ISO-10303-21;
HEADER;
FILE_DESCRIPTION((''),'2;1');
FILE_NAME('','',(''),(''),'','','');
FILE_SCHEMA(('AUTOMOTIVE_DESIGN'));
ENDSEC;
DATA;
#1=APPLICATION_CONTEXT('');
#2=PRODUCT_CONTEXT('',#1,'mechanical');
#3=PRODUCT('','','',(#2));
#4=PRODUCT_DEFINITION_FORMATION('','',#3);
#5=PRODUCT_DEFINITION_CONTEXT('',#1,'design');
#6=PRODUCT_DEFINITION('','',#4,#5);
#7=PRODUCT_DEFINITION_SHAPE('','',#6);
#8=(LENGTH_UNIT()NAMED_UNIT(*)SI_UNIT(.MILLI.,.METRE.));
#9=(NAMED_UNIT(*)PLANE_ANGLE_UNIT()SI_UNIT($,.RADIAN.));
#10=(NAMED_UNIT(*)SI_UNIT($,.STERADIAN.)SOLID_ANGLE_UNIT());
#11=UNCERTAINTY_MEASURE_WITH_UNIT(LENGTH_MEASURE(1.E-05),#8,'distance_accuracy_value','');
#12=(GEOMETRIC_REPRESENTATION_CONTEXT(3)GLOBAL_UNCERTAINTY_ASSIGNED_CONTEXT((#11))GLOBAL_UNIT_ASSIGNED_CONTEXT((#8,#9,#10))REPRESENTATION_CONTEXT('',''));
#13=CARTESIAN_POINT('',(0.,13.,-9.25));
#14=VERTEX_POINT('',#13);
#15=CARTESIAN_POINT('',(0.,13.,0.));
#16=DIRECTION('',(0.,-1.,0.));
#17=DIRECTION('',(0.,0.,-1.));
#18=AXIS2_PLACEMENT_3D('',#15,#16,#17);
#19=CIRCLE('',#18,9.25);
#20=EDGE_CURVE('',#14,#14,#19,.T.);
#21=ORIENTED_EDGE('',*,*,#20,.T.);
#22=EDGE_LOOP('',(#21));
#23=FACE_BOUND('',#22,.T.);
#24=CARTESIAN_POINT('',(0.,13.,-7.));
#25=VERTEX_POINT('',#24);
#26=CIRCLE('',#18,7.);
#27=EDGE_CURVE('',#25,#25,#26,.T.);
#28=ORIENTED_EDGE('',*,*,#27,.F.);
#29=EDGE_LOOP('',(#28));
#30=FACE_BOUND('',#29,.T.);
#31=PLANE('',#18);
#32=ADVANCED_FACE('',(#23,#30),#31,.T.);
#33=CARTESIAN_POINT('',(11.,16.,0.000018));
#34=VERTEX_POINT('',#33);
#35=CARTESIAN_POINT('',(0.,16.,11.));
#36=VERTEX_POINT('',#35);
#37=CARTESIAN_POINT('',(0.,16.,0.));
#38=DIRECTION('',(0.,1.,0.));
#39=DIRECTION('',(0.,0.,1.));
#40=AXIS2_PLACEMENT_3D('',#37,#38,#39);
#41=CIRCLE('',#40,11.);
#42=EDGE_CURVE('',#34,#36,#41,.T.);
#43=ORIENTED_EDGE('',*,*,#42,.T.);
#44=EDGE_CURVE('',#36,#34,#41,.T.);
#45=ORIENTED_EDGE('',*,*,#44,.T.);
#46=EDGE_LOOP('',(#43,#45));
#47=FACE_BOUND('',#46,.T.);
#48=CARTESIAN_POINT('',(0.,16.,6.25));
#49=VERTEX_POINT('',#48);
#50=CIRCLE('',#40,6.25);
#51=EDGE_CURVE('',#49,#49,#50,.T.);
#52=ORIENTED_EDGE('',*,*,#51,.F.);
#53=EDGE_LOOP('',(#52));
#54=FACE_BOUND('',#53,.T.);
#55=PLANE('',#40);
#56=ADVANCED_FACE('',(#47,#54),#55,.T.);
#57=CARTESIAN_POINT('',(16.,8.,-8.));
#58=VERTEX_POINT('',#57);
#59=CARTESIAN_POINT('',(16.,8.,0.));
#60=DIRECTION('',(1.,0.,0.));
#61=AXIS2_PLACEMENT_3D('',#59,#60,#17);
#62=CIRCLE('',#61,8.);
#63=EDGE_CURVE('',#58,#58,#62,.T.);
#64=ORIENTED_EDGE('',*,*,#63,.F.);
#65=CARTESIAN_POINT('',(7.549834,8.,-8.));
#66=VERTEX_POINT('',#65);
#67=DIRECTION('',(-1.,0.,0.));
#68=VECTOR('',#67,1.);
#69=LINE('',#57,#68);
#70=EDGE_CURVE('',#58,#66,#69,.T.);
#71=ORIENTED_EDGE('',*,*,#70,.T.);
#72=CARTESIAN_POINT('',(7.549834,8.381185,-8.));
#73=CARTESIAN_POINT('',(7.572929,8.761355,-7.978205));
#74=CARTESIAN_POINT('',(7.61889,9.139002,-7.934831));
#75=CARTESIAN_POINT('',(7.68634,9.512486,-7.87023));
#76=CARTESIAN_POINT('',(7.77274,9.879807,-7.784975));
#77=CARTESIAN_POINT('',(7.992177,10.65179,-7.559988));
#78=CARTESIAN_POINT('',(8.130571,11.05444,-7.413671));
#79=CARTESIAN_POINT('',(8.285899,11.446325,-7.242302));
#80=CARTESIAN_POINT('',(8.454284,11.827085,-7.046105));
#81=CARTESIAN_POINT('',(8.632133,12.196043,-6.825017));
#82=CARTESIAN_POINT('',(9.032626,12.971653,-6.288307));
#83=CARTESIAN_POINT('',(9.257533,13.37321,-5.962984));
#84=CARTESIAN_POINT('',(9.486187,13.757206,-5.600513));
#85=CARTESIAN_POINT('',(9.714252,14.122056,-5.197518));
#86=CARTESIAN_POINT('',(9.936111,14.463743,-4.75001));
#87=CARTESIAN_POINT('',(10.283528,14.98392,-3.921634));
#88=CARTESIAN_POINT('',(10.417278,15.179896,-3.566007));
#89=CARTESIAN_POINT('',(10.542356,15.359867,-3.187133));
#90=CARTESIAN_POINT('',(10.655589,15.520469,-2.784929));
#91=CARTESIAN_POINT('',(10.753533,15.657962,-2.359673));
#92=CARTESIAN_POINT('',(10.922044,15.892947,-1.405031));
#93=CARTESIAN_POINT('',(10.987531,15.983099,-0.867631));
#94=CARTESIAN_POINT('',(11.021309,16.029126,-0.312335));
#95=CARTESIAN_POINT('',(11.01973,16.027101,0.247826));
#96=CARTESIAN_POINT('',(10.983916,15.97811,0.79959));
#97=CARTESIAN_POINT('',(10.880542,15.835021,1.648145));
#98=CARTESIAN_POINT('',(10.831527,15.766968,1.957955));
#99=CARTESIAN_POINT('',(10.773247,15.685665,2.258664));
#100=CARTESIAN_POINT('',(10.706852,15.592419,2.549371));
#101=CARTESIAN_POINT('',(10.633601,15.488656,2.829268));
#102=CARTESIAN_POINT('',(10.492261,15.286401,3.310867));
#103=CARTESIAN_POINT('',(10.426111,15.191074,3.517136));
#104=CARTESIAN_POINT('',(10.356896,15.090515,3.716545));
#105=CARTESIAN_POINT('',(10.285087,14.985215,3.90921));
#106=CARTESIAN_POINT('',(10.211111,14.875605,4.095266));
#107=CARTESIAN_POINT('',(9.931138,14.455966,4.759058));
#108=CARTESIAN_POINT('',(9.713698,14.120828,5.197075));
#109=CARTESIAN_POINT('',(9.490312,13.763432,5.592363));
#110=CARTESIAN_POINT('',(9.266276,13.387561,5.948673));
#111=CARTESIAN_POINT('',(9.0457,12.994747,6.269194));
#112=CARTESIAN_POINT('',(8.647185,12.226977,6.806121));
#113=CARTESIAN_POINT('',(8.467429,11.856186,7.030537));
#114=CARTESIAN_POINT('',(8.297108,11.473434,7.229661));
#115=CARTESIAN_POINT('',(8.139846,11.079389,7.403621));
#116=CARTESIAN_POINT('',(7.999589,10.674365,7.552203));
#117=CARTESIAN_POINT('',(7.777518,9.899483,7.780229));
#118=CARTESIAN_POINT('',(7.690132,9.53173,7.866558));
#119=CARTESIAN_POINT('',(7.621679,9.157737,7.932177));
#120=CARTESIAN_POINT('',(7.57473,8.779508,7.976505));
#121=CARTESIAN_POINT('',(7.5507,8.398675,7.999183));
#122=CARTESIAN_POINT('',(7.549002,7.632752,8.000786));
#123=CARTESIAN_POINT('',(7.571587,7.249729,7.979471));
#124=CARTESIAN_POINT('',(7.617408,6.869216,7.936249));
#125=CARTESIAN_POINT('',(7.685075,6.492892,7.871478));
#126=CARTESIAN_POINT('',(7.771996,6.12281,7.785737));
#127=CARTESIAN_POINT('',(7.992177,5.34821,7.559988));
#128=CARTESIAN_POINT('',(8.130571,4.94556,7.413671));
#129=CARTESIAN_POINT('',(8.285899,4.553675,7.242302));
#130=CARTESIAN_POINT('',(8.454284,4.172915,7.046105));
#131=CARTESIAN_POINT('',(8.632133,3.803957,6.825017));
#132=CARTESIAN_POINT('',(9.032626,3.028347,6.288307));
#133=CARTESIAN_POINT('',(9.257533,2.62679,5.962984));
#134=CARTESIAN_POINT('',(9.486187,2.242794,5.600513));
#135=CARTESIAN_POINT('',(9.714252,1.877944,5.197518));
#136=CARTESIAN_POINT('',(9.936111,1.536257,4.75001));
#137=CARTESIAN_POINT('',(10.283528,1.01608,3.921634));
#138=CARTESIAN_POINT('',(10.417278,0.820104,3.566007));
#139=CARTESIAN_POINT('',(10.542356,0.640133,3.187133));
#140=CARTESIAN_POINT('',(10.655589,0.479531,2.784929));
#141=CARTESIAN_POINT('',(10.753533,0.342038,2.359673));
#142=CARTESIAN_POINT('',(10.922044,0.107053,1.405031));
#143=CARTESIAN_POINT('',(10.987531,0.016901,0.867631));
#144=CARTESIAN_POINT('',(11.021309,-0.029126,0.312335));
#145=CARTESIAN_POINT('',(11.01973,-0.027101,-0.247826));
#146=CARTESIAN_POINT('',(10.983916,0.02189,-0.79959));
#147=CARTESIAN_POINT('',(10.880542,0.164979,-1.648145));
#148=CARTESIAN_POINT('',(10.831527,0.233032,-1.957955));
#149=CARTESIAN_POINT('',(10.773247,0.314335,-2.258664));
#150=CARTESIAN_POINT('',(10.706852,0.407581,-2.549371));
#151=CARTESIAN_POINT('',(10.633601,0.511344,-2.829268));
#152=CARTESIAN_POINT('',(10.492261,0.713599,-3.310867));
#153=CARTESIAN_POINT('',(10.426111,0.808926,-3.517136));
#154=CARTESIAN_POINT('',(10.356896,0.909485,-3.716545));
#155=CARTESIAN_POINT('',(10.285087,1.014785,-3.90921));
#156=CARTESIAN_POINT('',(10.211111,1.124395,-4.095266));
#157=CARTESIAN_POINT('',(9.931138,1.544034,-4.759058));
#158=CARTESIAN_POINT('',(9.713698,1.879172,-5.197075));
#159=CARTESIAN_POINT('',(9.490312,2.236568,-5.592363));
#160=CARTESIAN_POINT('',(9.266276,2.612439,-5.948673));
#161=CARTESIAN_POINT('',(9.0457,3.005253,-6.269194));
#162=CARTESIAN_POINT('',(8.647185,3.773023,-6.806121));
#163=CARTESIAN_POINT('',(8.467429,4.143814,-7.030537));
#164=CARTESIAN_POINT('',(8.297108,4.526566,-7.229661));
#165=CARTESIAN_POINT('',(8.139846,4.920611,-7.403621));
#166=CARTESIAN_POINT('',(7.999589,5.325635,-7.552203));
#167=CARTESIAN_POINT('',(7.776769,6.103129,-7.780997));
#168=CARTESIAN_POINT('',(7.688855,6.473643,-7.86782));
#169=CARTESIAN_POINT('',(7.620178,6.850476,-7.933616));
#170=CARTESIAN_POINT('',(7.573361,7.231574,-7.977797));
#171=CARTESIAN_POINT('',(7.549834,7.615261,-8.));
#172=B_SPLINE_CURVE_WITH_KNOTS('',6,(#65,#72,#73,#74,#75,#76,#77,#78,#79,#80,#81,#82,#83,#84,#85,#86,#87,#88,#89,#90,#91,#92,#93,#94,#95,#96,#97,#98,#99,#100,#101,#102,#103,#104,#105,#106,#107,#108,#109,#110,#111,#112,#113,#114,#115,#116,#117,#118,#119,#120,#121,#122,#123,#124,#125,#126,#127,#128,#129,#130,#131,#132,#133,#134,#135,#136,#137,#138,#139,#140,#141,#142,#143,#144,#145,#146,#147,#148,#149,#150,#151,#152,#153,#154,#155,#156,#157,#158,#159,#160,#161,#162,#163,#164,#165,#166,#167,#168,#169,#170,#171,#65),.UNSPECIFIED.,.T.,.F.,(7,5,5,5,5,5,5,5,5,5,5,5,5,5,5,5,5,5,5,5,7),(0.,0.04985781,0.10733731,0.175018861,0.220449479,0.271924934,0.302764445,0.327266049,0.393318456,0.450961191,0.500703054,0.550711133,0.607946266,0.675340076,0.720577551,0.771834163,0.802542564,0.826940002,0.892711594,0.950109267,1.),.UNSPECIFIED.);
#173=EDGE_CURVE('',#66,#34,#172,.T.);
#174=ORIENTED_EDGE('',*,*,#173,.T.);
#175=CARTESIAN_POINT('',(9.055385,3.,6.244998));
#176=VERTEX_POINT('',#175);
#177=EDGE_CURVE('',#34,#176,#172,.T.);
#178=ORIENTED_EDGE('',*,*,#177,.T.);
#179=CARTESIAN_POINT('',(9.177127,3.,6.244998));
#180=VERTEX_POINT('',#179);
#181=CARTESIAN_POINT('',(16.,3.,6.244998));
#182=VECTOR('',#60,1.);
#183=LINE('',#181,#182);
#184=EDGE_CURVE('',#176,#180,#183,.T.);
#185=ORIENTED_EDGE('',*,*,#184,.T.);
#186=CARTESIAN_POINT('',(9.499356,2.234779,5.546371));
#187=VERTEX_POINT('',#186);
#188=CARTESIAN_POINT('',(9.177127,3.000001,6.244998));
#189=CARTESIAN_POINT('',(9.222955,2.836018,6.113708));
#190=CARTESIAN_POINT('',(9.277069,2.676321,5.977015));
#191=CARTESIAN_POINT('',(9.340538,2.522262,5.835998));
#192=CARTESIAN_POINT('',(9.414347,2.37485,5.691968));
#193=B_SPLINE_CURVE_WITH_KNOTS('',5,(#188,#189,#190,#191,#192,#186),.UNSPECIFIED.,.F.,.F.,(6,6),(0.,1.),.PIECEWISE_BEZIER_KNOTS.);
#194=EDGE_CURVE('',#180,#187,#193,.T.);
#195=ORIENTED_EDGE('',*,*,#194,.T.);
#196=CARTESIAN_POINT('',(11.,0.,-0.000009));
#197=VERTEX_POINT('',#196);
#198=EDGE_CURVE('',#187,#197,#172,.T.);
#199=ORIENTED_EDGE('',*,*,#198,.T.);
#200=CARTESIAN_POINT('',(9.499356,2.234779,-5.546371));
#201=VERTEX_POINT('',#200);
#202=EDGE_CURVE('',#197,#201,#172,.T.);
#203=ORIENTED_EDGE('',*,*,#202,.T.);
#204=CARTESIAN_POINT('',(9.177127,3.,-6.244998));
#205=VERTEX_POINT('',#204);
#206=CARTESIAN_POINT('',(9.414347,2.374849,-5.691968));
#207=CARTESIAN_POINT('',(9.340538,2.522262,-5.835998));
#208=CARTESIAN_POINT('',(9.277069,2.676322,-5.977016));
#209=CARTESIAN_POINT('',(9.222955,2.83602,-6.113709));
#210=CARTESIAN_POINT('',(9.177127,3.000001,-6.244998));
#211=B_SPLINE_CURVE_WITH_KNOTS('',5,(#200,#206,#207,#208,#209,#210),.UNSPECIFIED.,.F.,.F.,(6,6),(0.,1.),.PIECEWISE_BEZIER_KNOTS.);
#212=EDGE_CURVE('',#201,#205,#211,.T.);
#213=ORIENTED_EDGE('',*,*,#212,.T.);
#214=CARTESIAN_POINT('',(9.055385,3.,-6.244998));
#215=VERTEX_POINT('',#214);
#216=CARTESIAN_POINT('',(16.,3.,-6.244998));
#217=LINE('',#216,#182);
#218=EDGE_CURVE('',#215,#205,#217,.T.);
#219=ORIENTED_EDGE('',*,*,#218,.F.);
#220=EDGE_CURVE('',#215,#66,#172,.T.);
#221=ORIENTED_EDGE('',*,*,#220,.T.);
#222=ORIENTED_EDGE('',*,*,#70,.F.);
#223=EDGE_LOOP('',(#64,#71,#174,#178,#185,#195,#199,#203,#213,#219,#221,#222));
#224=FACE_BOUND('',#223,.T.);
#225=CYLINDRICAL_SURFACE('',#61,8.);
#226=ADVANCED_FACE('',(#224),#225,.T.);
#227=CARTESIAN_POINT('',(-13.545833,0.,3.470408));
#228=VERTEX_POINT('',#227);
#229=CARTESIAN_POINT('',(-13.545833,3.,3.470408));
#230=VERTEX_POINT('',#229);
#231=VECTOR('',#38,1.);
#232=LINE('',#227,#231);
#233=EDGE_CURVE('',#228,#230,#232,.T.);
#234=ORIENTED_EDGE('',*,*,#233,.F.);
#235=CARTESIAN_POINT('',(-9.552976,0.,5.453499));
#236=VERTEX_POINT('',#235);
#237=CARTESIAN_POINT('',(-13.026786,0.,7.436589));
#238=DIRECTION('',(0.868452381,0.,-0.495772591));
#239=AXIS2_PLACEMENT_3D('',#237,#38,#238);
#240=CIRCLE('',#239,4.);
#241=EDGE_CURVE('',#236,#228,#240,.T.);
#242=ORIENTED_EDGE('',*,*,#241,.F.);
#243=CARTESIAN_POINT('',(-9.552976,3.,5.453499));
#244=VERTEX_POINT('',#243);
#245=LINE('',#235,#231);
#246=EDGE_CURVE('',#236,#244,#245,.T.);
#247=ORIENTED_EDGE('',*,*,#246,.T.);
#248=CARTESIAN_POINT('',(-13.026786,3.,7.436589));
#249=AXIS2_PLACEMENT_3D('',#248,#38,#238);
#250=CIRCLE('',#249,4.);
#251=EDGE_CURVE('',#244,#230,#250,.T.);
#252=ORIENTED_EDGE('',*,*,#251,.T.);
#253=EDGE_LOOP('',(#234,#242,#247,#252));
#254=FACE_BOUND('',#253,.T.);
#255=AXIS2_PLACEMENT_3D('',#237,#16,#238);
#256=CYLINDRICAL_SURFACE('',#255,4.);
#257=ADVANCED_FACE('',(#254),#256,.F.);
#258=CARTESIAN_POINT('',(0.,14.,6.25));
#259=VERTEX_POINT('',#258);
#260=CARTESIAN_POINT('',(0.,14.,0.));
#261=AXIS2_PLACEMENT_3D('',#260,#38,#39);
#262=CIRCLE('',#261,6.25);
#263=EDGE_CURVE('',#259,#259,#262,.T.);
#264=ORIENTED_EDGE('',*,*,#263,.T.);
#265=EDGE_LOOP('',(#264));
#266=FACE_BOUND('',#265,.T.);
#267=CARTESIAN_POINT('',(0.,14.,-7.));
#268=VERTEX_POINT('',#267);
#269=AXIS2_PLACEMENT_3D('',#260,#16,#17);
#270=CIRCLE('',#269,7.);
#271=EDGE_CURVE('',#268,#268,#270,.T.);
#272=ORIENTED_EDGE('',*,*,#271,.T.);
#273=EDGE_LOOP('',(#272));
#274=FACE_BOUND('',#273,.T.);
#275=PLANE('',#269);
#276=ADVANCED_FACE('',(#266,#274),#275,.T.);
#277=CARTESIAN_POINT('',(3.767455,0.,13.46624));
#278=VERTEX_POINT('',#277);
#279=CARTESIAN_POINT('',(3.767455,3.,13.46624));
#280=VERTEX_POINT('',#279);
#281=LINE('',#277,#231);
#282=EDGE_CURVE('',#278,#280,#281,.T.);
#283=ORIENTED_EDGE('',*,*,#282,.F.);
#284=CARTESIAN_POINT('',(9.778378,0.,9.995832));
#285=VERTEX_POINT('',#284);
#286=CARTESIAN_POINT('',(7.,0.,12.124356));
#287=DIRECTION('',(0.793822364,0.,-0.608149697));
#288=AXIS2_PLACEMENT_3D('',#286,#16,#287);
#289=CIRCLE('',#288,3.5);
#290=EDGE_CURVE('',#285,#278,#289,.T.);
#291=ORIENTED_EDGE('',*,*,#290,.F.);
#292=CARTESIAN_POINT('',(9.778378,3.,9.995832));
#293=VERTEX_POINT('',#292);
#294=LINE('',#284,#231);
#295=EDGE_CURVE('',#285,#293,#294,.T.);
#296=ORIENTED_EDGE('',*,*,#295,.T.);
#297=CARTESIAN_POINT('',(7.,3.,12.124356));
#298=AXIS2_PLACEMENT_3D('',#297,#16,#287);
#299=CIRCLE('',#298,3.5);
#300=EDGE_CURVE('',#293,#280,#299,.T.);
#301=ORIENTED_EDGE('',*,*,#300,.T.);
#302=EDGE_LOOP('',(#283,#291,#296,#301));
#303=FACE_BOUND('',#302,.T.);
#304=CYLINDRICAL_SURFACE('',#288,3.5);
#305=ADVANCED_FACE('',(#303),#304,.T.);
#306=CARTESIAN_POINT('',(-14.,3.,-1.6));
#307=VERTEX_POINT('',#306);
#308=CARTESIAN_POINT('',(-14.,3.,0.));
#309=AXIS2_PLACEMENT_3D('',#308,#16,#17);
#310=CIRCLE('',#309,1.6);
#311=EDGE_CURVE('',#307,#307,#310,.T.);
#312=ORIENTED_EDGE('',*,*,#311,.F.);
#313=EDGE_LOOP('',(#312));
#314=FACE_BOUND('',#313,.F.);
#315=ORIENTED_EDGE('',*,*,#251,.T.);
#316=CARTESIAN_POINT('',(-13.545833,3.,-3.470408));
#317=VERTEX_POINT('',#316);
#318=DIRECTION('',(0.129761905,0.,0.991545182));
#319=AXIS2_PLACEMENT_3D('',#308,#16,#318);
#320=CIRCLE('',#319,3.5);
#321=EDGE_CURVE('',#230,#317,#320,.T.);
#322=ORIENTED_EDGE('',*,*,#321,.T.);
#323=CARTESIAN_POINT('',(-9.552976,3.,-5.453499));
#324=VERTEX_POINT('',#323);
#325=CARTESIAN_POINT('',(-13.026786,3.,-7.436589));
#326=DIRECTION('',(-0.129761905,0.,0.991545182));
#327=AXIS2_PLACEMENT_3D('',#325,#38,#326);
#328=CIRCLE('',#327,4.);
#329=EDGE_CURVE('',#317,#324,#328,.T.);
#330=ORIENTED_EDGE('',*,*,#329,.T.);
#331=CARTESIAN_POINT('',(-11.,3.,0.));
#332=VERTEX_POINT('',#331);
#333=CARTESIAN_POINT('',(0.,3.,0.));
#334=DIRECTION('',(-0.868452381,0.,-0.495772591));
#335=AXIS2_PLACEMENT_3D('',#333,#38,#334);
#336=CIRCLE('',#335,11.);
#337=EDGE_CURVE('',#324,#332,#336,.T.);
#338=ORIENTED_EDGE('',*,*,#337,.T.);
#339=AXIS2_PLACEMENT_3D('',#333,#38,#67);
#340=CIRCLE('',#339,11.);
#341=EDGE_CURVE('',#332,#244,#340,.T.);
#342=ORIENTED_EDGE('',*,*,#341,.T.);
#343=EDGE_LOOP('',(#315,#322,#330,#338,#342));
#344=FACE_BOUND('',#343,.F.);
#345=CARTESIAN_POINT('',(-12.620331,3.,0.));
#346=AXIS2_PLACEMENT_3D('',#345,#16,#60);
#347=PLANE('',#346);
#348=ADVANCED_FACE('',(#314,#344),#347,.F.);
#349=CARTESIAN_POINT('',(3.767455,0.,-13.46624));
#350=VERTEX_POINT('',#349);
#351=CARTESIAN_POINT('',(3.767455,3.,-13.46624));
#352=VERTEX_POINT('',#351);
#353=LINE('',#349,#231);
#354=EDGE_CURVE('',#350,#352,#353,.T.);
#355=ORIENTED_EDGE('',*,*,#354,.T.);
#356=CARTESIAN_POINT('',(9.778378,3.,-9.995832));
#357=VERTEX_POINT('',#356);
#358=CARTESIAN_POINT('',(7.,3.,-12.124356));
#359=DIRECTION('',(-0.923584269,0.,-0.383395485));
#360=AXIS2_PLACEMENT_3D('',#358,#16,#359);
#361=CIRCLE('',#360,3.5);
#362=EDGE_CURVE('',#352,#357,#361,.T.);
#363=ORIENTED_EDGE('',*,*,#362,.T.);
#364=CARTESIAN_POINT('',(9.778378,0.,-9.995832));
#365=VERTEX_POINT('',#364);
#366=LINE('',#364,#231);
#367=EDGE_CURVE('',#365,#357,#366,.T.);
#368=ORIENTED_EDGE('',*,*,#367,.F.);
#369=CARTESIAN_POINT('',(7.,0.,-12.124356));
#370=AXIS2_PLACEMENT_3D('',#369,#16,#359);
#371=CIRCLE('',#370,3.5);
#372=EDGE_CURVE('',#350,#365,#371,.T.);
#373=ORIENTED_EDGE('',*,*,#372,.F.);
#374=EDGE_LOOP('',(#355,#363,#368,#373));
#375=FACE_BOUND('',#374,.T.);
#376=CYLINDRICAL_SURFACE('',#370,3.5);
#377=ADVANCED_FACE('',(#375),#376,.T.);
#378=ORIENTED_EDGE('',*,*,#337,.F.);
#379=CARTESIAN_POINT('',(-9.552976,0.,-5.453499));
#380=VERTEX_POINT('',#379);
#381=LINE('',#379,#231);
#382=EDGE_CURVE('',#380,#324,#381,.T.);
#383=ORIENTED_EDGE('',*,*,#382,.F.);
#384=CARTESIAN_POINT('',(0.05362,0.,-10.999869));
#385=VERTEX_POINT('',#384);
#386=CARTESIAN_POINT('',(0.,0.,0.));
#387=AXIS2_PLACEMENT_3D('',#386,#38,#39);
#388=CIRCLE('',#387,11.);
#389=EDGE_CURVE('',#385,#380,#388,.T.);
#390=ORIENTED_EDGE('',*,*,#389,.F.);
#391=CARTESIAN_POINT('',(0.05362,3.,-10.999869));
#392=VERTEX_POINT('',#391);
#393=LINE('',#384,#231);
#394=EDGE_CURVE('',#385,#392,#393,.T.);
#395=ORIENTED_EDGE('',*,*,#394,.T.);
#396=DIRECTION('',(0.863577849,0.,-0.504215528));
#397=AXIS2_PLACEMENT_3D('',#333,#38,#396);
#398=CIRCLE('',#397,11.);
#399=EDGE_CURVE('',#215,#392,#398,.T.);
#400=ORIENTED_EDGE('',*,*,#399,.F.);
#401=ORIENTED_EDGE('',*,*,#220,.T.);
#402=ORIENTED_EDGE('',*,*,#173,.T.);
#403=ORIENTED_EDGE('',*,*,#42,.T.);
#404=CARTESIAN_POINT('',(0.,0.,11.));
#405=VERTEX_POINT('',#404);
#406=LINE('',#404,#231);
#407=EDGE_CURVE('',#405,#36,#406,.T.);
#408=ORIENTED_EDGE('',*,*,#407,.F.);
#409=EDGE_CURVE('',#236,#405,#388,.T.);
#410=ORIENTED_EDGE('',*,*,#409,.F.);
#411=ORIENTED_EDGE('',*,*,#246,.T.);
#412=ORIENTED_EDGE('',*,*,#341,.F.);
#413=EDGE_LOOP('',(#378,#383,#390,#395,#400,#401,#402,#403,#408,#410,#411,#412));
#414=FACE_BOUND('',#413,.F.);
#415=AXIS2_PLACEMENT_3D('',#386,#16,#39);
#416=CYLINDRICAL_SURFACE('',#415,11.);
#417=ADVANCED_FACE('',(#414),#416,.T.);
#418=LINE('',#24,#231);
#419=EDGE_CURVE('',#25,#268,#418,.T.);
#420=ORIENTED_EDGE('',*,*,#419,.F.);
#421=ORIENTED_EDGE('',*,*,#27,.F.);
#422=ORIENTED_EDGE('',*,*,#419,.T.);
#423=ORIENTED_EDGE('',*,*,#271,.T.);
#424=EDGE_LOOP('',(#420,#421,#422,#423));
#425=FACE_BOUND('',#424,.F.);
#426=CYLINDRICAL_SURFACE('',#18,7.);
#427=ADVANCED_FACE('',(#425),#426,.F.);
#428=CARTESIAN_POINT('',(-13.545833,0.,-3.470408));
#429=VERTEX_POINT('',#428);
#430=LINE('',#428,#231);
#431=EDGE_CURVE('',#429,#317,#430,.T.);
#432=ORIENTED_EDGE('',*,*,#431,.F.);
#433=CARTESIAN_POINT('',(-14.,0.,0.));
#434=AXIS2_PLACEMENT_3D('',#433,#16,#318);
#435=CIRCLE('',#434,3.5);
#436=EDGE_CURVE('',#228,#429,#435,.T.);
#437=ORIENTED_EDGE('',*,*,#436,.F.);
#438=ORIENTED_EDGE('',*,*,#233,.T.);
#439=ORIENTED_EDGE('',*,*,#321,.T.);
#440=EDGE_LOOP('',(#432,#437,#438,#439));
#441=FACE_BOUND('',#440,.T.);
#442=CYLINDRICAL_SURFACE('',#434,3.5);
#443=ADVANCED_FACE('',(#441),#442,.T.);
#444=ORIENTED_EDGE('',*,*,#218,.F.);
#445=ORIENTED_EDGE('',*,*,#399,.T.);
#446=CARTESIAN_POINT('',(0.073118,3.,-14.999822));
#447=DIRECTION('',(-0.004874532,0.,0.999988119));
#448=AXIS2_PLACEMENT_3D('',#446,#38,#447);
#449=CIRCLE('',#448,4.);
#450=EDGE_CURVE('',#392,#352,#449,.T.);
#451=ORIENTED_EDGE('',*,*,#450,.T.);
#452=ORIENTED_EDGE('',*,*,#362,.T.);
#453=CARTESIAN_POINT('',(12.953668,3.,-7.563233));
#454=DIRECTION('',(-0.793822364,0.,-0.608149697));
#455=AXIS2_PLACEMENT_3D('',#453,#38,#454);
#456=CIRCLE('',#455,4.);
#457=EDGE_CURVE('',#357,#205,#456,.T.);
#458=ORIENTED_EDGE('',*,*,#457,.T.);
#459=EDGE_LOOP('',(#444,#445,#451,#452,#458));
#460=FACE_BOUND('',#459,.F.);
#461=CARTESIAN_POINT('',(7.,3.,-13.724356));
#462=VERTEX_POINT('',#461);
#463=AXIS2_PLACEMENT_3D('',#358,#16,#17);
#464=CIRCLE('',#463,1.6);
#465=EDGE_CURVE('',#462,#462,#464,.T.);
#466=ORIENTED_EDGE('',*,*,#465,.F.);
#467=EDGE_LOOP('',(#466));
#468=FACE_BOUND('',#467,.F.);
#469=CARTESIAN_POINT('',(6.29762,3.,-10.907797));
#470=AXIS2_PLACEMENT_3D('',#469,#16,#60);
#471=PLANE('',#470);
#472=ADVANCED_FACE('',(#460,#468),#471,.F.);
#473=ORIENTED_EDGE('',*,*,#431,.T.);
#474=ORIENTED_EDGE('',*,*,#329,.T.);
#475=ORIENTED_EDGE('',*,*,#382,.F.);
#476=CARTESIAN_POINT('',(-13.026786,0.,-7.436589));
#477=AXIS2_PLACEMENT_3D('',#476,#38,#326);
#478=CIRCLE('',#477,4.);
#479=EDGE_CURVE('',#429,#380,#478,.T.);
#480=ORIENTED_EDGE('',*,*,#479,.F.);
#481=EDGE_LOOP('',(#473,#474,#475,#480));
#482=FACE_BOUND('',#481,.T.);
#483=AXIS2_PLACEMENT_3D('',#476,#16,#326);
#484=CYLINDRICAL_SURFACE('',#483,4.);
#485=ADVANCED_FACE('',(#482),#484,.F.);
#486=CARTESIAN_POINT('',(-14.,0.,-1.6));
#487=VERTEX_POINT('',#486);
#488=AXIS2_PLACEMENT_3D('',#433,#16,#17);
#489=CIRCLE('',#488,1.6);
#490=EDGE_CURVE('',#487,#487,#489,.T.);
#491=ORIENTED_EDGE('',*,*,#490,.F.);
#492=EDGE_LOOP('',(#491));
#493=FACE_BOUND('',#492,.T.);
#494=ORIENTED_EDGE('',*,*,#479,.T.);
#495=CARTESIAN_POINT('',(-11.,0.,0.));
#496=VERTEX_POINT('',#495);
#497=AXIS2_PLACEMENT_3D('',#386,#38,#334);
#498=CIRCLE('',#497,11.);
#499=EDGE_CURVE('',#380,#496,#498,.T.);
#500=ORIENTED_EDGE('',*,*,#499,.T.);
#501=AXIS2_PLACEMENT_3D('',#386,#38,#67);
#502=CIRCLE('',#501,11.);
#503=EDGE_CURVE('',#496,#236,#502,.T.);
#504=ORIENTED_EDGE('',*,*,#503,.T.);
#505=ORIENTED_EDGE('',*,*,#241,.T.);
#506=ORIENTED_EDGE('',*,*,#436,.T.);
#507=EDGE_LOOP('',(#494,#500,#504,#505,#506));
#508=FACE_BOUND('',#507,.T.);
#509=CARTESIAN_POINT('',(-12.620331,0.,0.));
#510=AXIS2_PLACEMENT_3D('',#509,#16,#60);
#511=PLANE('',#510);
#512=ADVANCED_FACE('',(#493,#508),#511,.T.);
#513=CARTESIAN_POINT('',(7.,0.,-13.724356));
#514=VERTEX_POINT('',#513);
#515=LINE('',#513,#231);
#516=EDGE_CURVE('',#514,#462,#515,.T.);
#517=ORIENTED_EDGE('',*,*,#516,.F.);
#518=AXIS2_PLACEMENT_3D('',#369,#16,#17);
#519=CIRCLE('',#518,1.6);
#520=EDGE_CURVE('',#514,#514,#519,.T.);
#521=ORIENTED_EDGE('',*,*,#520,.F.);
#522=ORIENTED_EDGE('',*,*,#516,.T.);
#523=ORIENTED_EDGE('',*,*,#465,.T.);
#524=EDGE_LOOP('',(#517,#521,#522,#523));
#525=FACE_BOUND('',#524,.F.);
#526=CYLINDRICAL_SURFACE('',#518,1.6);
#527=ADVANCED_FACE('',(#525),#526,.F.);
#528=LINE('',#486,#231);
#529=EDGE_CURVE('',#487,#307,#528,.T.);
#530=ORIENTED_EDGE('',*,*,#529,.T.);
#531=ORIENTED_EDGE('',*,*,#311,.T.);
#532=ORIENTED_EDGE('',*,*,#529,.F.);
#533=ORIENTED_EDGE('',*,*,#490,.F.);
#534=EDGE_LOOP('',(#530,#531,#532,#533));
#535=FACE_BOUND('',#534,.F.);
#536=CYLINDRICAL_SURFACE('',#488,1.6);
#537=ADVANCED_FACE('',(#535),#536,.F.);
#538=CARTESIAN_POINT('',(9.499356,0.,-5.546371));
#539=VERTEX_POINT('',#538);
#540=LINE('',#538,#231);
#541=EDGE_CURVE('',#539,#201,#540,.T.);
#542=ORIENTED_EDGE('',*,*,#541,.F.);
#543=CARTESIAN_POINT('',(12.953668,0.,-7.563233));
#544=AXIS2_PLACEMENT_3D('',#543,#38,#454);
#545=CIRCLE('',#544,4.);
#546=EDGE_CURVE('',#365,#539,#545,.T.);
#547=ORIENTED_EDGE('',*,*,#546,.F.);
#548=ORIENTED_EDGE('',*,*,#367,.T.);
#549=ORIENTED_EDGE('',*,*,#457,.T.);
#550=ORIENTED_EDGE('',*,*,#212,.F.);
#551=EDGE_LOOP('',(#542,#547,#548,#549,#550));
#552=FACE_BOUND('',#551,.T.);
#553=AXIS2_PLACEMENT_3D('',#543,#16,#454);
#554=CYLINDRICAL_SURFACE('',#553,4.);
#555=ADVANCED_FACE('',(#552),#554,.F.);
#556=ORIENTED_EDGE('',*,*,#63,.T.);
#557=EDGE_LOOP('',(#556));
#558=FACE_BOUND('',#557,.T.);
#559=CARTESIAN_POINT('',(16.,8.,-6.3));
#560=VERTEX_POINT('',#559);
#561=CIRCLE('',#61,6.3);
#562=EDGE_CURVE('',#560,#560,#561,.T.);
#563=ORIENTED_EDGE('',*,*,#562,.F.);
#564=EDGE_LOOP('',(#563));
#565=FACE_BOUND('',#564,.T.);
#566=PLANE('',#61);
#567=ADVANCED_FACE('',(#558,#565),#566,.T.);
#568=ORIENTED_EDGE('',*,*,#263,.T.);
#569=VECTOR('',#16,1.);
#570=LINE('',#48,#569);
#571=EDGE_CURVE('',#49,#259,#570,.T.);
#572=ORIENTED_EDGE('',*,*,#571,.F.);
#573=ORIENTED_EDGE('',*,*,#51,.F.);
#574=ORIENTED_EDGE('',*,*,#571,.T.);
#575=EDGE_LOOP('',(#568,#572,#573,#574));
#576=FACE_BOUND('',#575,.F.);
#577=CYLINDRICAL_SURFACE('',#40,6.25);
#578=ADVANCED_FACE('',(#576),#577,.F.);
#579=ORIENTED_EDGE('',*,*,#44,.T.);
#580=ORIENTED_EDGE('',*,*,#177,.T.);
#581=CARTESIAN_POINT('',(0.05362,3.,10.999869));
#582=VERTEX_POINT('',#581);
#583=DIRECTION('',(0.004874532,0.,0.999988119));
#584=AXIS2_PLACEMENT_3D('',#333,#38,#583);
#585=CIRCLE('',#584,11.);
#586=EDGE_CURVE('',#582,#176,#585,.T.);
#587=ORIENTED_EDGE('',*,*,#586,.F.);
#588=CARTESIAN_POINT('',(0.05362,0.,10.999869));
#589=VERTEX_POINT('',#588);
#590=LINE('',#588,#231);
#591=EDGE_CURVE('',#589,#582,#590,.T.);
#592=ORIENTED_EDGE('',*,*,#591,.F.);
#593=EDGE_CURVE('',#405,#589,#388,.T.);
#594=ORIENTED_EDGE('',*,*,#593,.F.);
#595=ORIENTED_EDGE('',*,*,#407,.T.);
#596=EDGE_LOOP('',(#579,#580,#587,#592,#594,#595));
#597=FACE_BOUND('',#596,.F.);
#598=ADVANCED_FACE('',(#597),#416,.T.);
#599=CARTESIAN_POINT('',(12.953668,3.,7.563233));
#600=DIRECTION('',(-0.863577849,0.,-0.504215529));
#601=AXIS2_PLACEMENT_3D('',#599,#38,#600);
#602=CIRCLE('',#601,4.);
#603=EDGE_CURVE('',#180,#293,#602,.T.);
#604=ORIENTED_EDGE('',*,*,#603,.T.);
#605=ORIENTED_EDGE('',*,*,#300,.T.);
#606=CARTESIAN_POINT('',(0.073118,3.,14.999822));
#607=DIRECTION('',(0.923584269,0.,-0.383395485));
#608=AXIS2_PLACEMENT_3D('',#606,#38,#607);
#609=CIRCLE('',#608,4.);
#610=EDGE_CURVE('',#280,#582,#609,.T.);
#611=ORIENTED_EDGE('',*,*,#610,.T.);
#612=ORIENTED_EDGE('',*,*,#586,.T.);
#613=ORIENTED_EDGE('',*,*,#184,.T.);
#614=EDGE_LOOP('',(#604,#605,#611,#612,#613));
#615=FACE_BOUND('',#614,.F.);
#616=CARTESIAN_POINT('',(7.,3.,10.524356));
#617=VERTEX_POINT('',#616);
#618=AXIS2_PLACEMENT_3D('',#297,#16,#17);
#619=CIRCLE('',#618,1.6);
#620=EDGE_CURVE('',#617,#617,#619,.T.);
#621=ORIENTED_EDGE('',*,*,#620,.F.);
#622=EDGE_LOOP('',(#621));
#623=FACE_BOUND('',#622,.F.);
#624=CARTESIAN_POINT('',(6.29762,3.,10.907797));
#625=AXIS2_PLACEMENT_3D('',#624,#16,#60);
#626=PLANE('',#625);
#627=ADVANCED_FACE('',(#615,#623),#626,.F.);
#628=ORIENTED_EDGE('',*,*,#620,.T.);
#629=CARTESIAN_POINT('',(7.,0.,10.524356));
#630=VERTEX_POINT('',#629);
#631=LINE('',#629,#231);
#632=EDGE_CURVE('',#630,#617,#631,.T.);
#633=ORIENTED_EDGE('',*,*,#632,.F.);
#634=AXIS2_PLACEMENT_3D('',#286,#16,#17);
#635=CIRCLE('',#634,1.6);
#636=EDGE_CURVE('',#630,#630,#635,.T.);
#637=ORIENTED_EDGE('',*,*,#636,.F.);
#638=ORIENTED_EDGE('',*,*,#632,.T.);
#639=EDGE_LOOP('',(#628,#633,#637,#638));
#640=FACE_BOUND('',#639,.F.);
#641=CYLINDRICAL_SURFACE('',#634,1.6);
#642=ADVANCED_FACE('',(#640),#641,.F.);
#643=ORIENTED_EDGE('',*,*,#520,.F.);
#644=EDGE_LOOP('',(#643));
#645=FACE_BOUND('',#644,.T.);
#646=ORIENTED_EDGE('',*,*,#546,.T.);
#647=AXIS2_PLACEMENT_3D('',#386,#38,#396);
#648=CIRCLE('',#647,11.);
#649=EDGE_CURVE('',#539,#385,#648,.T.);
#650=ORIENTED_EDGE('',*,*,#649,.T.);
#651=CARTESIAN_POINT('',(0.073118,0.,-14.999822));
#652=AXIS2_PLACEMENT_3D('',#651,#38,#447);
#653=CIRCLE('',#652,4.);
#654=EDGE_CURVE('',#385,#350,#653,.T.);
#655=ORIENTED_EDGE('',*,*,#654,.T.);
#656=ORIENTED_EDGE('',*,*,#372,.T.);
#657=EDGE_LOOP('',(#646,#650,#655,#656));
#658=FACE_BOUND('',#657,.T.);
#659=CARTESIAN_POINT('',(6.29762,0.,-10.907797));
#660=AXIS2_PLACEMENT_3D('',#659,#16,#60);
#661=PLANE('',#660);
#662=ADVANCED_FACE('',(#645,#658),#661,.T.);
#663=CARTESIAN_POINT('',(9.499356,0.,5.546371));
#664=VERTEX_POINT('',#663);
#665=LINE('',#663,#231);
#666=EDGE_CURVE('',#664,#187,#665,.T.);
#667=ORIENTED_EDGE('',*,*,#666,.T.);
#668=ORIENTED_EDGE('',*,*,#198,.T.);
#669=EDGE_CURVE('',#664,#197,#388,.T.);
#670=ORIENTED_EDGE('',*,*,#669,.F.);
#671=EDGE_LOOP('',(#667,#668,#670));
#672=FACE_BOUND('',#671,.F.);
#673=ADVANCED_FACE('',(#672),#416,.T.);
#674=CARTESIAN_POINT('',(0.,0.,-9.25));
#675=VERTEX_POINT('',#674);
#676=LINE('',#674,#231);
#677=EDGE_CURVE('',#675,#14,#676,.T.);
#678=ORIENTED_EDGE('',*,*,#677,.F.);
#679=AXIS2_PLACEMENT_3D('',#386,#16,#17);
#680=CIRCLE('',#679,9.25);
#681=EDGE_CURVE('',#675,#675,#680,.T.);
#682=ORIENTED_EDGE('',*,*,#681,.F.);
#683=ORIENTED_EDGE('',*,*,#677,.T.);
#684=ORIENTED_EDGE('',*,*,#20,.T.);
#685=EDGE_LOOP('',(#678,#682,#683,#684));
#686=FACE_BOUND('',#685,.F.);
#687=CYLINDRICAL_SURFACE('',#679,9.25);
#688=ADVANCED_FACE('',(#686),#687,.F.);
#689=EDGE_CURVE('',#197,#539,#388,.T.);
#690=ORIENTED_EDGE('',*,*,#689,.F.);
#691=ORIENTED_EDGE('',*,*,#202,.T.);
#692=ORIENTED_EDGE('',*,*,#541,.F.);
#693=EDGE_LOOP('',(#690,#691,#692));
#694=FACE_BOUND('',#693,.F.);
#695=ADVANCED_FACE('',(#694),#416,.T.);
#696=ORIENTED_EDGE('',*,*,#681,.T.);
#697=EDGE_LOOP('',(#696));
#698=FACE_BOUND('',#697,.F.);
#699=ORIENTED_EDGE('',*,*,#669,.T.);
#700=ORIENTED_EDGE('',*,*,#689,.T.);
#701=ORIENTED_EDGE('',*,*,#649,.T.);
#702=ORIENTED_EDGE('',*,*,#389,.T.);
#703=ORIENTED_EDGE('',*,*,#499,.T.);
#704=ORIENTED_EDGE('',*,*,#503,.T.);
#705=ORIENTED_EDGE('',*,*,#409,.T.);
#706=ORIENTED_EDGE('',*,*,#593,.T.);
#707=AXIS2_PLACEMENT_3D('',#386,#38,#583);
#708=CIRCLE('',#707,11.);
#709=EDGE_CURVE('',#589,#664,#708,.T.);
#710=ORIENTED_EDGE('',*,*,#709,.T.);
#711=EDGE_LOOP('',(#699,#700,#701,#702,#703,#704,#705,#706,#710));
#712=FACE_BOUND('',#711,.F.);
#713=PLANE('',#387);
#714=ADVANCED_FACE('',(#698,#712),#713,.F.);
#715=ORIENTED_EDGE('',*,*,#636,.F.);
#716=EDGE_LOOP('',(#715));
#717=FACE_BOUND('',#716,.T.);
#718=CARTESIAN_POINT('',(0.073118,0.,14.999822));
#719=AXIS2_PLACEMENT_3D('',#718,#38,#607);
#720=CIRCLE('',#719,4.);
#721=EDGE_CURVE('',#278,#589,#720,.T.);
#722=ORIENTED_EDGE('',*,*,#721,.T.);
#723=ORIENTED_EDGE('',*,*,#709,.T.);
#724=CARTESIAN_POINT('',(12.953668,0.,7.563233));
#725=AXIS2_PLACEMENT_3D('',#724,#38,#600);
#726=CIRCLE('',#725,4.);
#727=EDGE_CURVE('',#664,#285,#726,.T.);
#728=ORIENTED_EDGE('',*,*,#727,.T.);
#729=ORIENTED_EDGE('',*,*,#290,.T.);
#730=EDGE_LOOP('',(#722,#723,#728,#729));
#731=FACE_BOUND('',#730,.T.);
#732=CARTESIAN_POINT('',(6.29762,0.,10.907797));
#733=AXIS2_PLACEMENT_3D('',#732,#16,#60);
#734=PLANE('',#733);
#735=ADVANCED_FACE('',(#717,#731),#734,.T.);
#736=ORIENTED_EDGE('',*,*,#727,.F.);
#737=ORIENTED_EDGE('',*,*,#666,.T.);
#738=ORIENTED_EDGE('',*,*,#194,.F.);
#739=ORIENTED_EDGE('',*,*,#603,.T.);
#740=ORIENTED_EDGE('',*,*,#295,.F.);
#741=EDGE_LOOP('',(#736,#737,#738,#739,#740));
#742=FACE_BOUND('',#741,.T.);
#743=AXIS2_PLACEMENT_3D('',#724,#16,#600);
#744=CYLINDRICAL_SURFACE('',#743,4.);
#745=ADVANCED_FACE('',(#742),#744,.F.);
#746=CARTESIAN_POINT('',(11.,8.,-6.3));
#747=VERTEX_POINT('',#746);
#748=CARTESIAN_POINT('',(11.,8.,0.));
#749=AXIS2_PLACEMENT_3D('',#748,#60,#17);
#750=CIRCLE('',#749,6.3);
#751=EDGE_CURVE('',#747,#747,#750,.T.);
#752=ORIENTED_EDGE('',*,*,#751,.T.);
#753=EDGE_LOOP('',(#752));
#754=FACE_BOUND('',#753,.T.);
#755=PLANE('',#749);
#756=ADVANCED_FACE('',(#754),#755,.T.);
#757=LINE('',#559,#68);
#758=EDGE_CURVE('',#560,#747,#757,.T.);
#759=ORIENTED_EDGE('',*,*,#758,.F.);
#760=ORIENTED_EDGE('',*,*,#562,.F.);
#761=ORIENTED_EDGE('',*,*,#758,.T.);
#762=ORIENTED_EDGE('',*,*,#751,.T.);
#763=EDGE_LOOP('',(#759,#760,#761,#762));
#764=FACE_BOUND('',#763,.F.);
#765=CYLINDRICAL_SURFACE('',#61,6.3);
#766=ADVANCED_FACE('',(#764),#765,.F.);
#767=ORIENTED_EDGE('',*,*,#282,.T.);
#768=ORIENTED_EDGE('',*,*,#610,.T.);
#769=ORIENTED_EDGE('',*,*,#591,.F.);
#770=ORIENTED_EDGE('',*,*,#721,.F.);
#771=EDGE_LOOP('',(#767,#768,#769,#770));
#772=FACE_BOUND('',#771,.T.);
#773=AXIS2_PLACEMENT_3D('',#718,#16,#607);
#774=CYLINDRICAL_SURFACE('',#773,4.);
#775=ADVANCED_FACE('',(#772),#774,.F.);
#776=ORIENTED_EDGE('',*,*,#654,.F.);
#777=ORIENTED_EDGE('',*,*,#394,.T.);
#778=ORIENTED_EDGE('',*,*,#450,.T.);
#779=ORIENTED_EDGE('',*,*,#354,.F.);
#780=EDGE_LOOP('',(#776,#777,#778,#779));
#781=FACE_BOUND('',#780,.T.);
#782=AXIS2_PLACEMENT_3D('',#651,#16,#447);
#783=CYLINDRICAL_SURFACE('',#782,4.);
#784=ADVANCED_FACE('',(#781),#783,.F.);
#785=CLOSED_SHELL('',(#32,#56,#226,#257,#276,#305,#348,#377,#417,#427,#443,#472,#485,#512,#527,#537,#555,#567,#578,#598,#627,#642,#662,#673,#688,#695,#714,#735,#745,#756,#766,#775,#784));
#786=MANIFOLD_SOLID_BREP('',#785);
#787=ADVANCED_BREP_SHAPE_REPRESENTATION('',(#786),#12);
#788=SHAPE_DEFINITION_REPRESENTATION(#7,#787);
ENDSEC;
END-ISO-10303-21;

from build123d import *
from build123d.topology import SkipClean

# Parameters (mm, degrees)
SKETCH_1_R          = 11
EXTRUDE_1_DEPTH     = 16
CUT_EXTRUDE_1_REACH = 24.316
SKETCH_2_R          = 6.25
SKETCH_3_R          = 9.25
CUT_EXTRUDE_2_DEPTH = 13
EXTRUDE_2_REACH     = 35.257
SKETCH_4_R          = 8
SKETCH_5_R          = 6.3
CUT_EXTRUDE_3_DEPTH = 5
SKETCH_6_R          = 1.6
EXTRUDE_3_DEPTH     = 3
SKETCH_7_R          = 7
CUT_EXTRUDE_4_DEPTH = 1


with BuildPart() as part:
    # 草图1 → 凸台-拉伸1 (new body)
    with BuildSketch(Plane(origin=(0, 0, 0), x_dir=(1, 0, 0), z_dir=(0, 1, 0))):
        with Locations(Location((0, 0, 0), (0, 0, 270))):
            Circle(SKETCH_1_R)
    extrude(amount=EXTRUDE_1_DEPTH)

    # 草图2 → 切除-拉伸1 (cut, up to next)
    with BuildSketch(Plane(origin=(0, 16, 0), x_dir=(1, 0, 0), z_dir=(0, 1, 0)), mode=Mode.PRIVATE) as cut_extrude_1_sk1:
        with Locations(Location((0, 0, 0), (0, 0, 270))):
            Circle(SKETCH_2_R)
    cut_extrude_1_tool1 = extrude(cut_extrude_1_sk1.sketch, amount=-CUT_EXTRUDE_1_REACH, mode=Mode.PRIVATE) & part.part
    add(cut_extrude_1_tool1.solids().sort_by_distance((0, 16, 0))[0], mode=Mode.SUBTRACT)

    # 草图3 → 切除-拉伸2 (cut)
    with BuildSketch(Plane.XZ):
        with Locations(Location((0, 0, 0), (0, 0, 270))):
            Circle(SKETCH_3_R)
    extrude(amount=-CUT_EXTRUDE_2_DEPTH, mode=Mode.SUBTRACT)

    # 草图4 → 凸台-拉伸2 (add, up to next)
    with BuildSketch(Plane(origin=(16, 0, 0), x_dir=(0, 0, -1), z_dir=(1, 0, 0)), mode=Mode.PRIVATE) as extrude_2_sk1:
        with Locations((0, 8)):
            Circle(SKETCH_4_R)
    extrude_2_tool1 = extrude(extrude_2_sk1.sketch, amount=-EXTRUDE_2_REACH, mode=Mode.PRIVATE) - part.part
    add(extrude_2_tool1.solids().sort_by_distance((16, 8, 0))[0])

    # 草图5 → 切除-拉伸3 (cut)
    with SkipClean():  # the faces are left unmerged after this step: merging them gives an invalid solid
        with BuildSketch(Plane(origin=(16, 0, 0), x_dir=(0, 0, -1), z_dir=(1, 0, 0))):
            with Locations((0, 8)):
                Circle(SKETCH_5_R)
        extrude(amount=-CUT_EXTRUDE_3_DEPTH, mode=Mode.SUBTRACT)

    # 草图6 → 凸台-拉伸3 (add)
    # profile 1 of 3: a face of its own
    with SkipClean():  # the faces are left unmerged after this step: merging them gives an invalid solid
        with BuildSketch(Plane.XZ):
            with BuildLine():
                ThreePointArc((-11, 0), (-10.632091471, 2.821104562), (-9.55297619, 5.453498501))
                ThreePointArc((-9.55297619, 5.453498501), (-11.247511613, 3.854105973), (-13.545833333, 3.470408137))
                ThreePointArc((-13.545833333, 3.470408137), (-17.5, 0), (-13.545833333, -3.470408137))
                ThreePointArc((-13.545833333, -3.470408137), (-11.247511613, -3.854105973), (-9.55297619, -5.453498501))
                ThreePointArc((-9.55297619, -5.453498501), (-10.632091471, -2.821104562), (-11, 0))
            make_face()
            with Locations(Location((-14, 0, 0), (0, 0, 270))):
                Circle(SKETCH_6_R, mode=Mode.SUBTRACT)
        # profile 2 of 3: a face of its own
        with BuildSketch(Plane.XZ):
            with BuildLine():
                ThreePointArc((9.778378275, 9.995831713), (8.75, 15.155444566), (3.767455058, 13.466239851))
                ThreePointArc((3.767455058, 13.466239851), (2.286002125, 11.667683773), (0.053619854, 10.999869313))
                ThreePointArc((0.053619854, 10.999869313), (5.5, 9.526279442), (9.499356337, 5.546370812))
                ThreePointArc((9.499356337, 5.546370812), (8.961509488, 7.8135778), (9.778378275, 9.995831713))
            make_face()
            with Locations(Location((7, 12.124355653, 0), (0, 0, 270))):
                Circle(SKETCH_6_R, mode=Mode.SUBTRACT)
        # profile 3 of 3: a face of its own
        with BuildSketch(Plane.XZ):
            with BuildLine():
                ThreePointArc((3.767455058, -13.466239851), (8.75, -15.155444566), (9.778378275, -9.995831713))
                ThreePointArc((9.778378275, -9.995831713), (8.961509488, -7.8135778), (9.499356337, -5.546370812))
                ThreePointArc((9.499356337, -5.546370812), (5.5, -9.526279442), (0.053619854, -10.999869313))
                ThreePointArc((0.053619854, -10.999869313), (2.286002125, -11.667683773), (3.767455058, -13.466239851))
            make_face()
            with Locations(Location((7, -12.124355653, 0), (0, 0, 270))):
                Circle(SKETCH_6_R, mode=Mode.SUBTRACT)
        extrude(amount=-EXTRUDE_3_DEPTH)

    # 草图7 → 切除-拉伸4 (cut)
    with SkipClean():  # the faces are left unmerged after this step: merging them gives an invalid solid
        with BuildSketch(Plane.XZ.offset(-13)):
            with Locations(Location((0, 0, 0), (0, 0, 270))):
                Circle(SKETCH_7_R)
        extrude(amount=-CUT_EXTRUDE_4_DEPTH, mode=Mode.SUBTRACT)


solid = part.part
